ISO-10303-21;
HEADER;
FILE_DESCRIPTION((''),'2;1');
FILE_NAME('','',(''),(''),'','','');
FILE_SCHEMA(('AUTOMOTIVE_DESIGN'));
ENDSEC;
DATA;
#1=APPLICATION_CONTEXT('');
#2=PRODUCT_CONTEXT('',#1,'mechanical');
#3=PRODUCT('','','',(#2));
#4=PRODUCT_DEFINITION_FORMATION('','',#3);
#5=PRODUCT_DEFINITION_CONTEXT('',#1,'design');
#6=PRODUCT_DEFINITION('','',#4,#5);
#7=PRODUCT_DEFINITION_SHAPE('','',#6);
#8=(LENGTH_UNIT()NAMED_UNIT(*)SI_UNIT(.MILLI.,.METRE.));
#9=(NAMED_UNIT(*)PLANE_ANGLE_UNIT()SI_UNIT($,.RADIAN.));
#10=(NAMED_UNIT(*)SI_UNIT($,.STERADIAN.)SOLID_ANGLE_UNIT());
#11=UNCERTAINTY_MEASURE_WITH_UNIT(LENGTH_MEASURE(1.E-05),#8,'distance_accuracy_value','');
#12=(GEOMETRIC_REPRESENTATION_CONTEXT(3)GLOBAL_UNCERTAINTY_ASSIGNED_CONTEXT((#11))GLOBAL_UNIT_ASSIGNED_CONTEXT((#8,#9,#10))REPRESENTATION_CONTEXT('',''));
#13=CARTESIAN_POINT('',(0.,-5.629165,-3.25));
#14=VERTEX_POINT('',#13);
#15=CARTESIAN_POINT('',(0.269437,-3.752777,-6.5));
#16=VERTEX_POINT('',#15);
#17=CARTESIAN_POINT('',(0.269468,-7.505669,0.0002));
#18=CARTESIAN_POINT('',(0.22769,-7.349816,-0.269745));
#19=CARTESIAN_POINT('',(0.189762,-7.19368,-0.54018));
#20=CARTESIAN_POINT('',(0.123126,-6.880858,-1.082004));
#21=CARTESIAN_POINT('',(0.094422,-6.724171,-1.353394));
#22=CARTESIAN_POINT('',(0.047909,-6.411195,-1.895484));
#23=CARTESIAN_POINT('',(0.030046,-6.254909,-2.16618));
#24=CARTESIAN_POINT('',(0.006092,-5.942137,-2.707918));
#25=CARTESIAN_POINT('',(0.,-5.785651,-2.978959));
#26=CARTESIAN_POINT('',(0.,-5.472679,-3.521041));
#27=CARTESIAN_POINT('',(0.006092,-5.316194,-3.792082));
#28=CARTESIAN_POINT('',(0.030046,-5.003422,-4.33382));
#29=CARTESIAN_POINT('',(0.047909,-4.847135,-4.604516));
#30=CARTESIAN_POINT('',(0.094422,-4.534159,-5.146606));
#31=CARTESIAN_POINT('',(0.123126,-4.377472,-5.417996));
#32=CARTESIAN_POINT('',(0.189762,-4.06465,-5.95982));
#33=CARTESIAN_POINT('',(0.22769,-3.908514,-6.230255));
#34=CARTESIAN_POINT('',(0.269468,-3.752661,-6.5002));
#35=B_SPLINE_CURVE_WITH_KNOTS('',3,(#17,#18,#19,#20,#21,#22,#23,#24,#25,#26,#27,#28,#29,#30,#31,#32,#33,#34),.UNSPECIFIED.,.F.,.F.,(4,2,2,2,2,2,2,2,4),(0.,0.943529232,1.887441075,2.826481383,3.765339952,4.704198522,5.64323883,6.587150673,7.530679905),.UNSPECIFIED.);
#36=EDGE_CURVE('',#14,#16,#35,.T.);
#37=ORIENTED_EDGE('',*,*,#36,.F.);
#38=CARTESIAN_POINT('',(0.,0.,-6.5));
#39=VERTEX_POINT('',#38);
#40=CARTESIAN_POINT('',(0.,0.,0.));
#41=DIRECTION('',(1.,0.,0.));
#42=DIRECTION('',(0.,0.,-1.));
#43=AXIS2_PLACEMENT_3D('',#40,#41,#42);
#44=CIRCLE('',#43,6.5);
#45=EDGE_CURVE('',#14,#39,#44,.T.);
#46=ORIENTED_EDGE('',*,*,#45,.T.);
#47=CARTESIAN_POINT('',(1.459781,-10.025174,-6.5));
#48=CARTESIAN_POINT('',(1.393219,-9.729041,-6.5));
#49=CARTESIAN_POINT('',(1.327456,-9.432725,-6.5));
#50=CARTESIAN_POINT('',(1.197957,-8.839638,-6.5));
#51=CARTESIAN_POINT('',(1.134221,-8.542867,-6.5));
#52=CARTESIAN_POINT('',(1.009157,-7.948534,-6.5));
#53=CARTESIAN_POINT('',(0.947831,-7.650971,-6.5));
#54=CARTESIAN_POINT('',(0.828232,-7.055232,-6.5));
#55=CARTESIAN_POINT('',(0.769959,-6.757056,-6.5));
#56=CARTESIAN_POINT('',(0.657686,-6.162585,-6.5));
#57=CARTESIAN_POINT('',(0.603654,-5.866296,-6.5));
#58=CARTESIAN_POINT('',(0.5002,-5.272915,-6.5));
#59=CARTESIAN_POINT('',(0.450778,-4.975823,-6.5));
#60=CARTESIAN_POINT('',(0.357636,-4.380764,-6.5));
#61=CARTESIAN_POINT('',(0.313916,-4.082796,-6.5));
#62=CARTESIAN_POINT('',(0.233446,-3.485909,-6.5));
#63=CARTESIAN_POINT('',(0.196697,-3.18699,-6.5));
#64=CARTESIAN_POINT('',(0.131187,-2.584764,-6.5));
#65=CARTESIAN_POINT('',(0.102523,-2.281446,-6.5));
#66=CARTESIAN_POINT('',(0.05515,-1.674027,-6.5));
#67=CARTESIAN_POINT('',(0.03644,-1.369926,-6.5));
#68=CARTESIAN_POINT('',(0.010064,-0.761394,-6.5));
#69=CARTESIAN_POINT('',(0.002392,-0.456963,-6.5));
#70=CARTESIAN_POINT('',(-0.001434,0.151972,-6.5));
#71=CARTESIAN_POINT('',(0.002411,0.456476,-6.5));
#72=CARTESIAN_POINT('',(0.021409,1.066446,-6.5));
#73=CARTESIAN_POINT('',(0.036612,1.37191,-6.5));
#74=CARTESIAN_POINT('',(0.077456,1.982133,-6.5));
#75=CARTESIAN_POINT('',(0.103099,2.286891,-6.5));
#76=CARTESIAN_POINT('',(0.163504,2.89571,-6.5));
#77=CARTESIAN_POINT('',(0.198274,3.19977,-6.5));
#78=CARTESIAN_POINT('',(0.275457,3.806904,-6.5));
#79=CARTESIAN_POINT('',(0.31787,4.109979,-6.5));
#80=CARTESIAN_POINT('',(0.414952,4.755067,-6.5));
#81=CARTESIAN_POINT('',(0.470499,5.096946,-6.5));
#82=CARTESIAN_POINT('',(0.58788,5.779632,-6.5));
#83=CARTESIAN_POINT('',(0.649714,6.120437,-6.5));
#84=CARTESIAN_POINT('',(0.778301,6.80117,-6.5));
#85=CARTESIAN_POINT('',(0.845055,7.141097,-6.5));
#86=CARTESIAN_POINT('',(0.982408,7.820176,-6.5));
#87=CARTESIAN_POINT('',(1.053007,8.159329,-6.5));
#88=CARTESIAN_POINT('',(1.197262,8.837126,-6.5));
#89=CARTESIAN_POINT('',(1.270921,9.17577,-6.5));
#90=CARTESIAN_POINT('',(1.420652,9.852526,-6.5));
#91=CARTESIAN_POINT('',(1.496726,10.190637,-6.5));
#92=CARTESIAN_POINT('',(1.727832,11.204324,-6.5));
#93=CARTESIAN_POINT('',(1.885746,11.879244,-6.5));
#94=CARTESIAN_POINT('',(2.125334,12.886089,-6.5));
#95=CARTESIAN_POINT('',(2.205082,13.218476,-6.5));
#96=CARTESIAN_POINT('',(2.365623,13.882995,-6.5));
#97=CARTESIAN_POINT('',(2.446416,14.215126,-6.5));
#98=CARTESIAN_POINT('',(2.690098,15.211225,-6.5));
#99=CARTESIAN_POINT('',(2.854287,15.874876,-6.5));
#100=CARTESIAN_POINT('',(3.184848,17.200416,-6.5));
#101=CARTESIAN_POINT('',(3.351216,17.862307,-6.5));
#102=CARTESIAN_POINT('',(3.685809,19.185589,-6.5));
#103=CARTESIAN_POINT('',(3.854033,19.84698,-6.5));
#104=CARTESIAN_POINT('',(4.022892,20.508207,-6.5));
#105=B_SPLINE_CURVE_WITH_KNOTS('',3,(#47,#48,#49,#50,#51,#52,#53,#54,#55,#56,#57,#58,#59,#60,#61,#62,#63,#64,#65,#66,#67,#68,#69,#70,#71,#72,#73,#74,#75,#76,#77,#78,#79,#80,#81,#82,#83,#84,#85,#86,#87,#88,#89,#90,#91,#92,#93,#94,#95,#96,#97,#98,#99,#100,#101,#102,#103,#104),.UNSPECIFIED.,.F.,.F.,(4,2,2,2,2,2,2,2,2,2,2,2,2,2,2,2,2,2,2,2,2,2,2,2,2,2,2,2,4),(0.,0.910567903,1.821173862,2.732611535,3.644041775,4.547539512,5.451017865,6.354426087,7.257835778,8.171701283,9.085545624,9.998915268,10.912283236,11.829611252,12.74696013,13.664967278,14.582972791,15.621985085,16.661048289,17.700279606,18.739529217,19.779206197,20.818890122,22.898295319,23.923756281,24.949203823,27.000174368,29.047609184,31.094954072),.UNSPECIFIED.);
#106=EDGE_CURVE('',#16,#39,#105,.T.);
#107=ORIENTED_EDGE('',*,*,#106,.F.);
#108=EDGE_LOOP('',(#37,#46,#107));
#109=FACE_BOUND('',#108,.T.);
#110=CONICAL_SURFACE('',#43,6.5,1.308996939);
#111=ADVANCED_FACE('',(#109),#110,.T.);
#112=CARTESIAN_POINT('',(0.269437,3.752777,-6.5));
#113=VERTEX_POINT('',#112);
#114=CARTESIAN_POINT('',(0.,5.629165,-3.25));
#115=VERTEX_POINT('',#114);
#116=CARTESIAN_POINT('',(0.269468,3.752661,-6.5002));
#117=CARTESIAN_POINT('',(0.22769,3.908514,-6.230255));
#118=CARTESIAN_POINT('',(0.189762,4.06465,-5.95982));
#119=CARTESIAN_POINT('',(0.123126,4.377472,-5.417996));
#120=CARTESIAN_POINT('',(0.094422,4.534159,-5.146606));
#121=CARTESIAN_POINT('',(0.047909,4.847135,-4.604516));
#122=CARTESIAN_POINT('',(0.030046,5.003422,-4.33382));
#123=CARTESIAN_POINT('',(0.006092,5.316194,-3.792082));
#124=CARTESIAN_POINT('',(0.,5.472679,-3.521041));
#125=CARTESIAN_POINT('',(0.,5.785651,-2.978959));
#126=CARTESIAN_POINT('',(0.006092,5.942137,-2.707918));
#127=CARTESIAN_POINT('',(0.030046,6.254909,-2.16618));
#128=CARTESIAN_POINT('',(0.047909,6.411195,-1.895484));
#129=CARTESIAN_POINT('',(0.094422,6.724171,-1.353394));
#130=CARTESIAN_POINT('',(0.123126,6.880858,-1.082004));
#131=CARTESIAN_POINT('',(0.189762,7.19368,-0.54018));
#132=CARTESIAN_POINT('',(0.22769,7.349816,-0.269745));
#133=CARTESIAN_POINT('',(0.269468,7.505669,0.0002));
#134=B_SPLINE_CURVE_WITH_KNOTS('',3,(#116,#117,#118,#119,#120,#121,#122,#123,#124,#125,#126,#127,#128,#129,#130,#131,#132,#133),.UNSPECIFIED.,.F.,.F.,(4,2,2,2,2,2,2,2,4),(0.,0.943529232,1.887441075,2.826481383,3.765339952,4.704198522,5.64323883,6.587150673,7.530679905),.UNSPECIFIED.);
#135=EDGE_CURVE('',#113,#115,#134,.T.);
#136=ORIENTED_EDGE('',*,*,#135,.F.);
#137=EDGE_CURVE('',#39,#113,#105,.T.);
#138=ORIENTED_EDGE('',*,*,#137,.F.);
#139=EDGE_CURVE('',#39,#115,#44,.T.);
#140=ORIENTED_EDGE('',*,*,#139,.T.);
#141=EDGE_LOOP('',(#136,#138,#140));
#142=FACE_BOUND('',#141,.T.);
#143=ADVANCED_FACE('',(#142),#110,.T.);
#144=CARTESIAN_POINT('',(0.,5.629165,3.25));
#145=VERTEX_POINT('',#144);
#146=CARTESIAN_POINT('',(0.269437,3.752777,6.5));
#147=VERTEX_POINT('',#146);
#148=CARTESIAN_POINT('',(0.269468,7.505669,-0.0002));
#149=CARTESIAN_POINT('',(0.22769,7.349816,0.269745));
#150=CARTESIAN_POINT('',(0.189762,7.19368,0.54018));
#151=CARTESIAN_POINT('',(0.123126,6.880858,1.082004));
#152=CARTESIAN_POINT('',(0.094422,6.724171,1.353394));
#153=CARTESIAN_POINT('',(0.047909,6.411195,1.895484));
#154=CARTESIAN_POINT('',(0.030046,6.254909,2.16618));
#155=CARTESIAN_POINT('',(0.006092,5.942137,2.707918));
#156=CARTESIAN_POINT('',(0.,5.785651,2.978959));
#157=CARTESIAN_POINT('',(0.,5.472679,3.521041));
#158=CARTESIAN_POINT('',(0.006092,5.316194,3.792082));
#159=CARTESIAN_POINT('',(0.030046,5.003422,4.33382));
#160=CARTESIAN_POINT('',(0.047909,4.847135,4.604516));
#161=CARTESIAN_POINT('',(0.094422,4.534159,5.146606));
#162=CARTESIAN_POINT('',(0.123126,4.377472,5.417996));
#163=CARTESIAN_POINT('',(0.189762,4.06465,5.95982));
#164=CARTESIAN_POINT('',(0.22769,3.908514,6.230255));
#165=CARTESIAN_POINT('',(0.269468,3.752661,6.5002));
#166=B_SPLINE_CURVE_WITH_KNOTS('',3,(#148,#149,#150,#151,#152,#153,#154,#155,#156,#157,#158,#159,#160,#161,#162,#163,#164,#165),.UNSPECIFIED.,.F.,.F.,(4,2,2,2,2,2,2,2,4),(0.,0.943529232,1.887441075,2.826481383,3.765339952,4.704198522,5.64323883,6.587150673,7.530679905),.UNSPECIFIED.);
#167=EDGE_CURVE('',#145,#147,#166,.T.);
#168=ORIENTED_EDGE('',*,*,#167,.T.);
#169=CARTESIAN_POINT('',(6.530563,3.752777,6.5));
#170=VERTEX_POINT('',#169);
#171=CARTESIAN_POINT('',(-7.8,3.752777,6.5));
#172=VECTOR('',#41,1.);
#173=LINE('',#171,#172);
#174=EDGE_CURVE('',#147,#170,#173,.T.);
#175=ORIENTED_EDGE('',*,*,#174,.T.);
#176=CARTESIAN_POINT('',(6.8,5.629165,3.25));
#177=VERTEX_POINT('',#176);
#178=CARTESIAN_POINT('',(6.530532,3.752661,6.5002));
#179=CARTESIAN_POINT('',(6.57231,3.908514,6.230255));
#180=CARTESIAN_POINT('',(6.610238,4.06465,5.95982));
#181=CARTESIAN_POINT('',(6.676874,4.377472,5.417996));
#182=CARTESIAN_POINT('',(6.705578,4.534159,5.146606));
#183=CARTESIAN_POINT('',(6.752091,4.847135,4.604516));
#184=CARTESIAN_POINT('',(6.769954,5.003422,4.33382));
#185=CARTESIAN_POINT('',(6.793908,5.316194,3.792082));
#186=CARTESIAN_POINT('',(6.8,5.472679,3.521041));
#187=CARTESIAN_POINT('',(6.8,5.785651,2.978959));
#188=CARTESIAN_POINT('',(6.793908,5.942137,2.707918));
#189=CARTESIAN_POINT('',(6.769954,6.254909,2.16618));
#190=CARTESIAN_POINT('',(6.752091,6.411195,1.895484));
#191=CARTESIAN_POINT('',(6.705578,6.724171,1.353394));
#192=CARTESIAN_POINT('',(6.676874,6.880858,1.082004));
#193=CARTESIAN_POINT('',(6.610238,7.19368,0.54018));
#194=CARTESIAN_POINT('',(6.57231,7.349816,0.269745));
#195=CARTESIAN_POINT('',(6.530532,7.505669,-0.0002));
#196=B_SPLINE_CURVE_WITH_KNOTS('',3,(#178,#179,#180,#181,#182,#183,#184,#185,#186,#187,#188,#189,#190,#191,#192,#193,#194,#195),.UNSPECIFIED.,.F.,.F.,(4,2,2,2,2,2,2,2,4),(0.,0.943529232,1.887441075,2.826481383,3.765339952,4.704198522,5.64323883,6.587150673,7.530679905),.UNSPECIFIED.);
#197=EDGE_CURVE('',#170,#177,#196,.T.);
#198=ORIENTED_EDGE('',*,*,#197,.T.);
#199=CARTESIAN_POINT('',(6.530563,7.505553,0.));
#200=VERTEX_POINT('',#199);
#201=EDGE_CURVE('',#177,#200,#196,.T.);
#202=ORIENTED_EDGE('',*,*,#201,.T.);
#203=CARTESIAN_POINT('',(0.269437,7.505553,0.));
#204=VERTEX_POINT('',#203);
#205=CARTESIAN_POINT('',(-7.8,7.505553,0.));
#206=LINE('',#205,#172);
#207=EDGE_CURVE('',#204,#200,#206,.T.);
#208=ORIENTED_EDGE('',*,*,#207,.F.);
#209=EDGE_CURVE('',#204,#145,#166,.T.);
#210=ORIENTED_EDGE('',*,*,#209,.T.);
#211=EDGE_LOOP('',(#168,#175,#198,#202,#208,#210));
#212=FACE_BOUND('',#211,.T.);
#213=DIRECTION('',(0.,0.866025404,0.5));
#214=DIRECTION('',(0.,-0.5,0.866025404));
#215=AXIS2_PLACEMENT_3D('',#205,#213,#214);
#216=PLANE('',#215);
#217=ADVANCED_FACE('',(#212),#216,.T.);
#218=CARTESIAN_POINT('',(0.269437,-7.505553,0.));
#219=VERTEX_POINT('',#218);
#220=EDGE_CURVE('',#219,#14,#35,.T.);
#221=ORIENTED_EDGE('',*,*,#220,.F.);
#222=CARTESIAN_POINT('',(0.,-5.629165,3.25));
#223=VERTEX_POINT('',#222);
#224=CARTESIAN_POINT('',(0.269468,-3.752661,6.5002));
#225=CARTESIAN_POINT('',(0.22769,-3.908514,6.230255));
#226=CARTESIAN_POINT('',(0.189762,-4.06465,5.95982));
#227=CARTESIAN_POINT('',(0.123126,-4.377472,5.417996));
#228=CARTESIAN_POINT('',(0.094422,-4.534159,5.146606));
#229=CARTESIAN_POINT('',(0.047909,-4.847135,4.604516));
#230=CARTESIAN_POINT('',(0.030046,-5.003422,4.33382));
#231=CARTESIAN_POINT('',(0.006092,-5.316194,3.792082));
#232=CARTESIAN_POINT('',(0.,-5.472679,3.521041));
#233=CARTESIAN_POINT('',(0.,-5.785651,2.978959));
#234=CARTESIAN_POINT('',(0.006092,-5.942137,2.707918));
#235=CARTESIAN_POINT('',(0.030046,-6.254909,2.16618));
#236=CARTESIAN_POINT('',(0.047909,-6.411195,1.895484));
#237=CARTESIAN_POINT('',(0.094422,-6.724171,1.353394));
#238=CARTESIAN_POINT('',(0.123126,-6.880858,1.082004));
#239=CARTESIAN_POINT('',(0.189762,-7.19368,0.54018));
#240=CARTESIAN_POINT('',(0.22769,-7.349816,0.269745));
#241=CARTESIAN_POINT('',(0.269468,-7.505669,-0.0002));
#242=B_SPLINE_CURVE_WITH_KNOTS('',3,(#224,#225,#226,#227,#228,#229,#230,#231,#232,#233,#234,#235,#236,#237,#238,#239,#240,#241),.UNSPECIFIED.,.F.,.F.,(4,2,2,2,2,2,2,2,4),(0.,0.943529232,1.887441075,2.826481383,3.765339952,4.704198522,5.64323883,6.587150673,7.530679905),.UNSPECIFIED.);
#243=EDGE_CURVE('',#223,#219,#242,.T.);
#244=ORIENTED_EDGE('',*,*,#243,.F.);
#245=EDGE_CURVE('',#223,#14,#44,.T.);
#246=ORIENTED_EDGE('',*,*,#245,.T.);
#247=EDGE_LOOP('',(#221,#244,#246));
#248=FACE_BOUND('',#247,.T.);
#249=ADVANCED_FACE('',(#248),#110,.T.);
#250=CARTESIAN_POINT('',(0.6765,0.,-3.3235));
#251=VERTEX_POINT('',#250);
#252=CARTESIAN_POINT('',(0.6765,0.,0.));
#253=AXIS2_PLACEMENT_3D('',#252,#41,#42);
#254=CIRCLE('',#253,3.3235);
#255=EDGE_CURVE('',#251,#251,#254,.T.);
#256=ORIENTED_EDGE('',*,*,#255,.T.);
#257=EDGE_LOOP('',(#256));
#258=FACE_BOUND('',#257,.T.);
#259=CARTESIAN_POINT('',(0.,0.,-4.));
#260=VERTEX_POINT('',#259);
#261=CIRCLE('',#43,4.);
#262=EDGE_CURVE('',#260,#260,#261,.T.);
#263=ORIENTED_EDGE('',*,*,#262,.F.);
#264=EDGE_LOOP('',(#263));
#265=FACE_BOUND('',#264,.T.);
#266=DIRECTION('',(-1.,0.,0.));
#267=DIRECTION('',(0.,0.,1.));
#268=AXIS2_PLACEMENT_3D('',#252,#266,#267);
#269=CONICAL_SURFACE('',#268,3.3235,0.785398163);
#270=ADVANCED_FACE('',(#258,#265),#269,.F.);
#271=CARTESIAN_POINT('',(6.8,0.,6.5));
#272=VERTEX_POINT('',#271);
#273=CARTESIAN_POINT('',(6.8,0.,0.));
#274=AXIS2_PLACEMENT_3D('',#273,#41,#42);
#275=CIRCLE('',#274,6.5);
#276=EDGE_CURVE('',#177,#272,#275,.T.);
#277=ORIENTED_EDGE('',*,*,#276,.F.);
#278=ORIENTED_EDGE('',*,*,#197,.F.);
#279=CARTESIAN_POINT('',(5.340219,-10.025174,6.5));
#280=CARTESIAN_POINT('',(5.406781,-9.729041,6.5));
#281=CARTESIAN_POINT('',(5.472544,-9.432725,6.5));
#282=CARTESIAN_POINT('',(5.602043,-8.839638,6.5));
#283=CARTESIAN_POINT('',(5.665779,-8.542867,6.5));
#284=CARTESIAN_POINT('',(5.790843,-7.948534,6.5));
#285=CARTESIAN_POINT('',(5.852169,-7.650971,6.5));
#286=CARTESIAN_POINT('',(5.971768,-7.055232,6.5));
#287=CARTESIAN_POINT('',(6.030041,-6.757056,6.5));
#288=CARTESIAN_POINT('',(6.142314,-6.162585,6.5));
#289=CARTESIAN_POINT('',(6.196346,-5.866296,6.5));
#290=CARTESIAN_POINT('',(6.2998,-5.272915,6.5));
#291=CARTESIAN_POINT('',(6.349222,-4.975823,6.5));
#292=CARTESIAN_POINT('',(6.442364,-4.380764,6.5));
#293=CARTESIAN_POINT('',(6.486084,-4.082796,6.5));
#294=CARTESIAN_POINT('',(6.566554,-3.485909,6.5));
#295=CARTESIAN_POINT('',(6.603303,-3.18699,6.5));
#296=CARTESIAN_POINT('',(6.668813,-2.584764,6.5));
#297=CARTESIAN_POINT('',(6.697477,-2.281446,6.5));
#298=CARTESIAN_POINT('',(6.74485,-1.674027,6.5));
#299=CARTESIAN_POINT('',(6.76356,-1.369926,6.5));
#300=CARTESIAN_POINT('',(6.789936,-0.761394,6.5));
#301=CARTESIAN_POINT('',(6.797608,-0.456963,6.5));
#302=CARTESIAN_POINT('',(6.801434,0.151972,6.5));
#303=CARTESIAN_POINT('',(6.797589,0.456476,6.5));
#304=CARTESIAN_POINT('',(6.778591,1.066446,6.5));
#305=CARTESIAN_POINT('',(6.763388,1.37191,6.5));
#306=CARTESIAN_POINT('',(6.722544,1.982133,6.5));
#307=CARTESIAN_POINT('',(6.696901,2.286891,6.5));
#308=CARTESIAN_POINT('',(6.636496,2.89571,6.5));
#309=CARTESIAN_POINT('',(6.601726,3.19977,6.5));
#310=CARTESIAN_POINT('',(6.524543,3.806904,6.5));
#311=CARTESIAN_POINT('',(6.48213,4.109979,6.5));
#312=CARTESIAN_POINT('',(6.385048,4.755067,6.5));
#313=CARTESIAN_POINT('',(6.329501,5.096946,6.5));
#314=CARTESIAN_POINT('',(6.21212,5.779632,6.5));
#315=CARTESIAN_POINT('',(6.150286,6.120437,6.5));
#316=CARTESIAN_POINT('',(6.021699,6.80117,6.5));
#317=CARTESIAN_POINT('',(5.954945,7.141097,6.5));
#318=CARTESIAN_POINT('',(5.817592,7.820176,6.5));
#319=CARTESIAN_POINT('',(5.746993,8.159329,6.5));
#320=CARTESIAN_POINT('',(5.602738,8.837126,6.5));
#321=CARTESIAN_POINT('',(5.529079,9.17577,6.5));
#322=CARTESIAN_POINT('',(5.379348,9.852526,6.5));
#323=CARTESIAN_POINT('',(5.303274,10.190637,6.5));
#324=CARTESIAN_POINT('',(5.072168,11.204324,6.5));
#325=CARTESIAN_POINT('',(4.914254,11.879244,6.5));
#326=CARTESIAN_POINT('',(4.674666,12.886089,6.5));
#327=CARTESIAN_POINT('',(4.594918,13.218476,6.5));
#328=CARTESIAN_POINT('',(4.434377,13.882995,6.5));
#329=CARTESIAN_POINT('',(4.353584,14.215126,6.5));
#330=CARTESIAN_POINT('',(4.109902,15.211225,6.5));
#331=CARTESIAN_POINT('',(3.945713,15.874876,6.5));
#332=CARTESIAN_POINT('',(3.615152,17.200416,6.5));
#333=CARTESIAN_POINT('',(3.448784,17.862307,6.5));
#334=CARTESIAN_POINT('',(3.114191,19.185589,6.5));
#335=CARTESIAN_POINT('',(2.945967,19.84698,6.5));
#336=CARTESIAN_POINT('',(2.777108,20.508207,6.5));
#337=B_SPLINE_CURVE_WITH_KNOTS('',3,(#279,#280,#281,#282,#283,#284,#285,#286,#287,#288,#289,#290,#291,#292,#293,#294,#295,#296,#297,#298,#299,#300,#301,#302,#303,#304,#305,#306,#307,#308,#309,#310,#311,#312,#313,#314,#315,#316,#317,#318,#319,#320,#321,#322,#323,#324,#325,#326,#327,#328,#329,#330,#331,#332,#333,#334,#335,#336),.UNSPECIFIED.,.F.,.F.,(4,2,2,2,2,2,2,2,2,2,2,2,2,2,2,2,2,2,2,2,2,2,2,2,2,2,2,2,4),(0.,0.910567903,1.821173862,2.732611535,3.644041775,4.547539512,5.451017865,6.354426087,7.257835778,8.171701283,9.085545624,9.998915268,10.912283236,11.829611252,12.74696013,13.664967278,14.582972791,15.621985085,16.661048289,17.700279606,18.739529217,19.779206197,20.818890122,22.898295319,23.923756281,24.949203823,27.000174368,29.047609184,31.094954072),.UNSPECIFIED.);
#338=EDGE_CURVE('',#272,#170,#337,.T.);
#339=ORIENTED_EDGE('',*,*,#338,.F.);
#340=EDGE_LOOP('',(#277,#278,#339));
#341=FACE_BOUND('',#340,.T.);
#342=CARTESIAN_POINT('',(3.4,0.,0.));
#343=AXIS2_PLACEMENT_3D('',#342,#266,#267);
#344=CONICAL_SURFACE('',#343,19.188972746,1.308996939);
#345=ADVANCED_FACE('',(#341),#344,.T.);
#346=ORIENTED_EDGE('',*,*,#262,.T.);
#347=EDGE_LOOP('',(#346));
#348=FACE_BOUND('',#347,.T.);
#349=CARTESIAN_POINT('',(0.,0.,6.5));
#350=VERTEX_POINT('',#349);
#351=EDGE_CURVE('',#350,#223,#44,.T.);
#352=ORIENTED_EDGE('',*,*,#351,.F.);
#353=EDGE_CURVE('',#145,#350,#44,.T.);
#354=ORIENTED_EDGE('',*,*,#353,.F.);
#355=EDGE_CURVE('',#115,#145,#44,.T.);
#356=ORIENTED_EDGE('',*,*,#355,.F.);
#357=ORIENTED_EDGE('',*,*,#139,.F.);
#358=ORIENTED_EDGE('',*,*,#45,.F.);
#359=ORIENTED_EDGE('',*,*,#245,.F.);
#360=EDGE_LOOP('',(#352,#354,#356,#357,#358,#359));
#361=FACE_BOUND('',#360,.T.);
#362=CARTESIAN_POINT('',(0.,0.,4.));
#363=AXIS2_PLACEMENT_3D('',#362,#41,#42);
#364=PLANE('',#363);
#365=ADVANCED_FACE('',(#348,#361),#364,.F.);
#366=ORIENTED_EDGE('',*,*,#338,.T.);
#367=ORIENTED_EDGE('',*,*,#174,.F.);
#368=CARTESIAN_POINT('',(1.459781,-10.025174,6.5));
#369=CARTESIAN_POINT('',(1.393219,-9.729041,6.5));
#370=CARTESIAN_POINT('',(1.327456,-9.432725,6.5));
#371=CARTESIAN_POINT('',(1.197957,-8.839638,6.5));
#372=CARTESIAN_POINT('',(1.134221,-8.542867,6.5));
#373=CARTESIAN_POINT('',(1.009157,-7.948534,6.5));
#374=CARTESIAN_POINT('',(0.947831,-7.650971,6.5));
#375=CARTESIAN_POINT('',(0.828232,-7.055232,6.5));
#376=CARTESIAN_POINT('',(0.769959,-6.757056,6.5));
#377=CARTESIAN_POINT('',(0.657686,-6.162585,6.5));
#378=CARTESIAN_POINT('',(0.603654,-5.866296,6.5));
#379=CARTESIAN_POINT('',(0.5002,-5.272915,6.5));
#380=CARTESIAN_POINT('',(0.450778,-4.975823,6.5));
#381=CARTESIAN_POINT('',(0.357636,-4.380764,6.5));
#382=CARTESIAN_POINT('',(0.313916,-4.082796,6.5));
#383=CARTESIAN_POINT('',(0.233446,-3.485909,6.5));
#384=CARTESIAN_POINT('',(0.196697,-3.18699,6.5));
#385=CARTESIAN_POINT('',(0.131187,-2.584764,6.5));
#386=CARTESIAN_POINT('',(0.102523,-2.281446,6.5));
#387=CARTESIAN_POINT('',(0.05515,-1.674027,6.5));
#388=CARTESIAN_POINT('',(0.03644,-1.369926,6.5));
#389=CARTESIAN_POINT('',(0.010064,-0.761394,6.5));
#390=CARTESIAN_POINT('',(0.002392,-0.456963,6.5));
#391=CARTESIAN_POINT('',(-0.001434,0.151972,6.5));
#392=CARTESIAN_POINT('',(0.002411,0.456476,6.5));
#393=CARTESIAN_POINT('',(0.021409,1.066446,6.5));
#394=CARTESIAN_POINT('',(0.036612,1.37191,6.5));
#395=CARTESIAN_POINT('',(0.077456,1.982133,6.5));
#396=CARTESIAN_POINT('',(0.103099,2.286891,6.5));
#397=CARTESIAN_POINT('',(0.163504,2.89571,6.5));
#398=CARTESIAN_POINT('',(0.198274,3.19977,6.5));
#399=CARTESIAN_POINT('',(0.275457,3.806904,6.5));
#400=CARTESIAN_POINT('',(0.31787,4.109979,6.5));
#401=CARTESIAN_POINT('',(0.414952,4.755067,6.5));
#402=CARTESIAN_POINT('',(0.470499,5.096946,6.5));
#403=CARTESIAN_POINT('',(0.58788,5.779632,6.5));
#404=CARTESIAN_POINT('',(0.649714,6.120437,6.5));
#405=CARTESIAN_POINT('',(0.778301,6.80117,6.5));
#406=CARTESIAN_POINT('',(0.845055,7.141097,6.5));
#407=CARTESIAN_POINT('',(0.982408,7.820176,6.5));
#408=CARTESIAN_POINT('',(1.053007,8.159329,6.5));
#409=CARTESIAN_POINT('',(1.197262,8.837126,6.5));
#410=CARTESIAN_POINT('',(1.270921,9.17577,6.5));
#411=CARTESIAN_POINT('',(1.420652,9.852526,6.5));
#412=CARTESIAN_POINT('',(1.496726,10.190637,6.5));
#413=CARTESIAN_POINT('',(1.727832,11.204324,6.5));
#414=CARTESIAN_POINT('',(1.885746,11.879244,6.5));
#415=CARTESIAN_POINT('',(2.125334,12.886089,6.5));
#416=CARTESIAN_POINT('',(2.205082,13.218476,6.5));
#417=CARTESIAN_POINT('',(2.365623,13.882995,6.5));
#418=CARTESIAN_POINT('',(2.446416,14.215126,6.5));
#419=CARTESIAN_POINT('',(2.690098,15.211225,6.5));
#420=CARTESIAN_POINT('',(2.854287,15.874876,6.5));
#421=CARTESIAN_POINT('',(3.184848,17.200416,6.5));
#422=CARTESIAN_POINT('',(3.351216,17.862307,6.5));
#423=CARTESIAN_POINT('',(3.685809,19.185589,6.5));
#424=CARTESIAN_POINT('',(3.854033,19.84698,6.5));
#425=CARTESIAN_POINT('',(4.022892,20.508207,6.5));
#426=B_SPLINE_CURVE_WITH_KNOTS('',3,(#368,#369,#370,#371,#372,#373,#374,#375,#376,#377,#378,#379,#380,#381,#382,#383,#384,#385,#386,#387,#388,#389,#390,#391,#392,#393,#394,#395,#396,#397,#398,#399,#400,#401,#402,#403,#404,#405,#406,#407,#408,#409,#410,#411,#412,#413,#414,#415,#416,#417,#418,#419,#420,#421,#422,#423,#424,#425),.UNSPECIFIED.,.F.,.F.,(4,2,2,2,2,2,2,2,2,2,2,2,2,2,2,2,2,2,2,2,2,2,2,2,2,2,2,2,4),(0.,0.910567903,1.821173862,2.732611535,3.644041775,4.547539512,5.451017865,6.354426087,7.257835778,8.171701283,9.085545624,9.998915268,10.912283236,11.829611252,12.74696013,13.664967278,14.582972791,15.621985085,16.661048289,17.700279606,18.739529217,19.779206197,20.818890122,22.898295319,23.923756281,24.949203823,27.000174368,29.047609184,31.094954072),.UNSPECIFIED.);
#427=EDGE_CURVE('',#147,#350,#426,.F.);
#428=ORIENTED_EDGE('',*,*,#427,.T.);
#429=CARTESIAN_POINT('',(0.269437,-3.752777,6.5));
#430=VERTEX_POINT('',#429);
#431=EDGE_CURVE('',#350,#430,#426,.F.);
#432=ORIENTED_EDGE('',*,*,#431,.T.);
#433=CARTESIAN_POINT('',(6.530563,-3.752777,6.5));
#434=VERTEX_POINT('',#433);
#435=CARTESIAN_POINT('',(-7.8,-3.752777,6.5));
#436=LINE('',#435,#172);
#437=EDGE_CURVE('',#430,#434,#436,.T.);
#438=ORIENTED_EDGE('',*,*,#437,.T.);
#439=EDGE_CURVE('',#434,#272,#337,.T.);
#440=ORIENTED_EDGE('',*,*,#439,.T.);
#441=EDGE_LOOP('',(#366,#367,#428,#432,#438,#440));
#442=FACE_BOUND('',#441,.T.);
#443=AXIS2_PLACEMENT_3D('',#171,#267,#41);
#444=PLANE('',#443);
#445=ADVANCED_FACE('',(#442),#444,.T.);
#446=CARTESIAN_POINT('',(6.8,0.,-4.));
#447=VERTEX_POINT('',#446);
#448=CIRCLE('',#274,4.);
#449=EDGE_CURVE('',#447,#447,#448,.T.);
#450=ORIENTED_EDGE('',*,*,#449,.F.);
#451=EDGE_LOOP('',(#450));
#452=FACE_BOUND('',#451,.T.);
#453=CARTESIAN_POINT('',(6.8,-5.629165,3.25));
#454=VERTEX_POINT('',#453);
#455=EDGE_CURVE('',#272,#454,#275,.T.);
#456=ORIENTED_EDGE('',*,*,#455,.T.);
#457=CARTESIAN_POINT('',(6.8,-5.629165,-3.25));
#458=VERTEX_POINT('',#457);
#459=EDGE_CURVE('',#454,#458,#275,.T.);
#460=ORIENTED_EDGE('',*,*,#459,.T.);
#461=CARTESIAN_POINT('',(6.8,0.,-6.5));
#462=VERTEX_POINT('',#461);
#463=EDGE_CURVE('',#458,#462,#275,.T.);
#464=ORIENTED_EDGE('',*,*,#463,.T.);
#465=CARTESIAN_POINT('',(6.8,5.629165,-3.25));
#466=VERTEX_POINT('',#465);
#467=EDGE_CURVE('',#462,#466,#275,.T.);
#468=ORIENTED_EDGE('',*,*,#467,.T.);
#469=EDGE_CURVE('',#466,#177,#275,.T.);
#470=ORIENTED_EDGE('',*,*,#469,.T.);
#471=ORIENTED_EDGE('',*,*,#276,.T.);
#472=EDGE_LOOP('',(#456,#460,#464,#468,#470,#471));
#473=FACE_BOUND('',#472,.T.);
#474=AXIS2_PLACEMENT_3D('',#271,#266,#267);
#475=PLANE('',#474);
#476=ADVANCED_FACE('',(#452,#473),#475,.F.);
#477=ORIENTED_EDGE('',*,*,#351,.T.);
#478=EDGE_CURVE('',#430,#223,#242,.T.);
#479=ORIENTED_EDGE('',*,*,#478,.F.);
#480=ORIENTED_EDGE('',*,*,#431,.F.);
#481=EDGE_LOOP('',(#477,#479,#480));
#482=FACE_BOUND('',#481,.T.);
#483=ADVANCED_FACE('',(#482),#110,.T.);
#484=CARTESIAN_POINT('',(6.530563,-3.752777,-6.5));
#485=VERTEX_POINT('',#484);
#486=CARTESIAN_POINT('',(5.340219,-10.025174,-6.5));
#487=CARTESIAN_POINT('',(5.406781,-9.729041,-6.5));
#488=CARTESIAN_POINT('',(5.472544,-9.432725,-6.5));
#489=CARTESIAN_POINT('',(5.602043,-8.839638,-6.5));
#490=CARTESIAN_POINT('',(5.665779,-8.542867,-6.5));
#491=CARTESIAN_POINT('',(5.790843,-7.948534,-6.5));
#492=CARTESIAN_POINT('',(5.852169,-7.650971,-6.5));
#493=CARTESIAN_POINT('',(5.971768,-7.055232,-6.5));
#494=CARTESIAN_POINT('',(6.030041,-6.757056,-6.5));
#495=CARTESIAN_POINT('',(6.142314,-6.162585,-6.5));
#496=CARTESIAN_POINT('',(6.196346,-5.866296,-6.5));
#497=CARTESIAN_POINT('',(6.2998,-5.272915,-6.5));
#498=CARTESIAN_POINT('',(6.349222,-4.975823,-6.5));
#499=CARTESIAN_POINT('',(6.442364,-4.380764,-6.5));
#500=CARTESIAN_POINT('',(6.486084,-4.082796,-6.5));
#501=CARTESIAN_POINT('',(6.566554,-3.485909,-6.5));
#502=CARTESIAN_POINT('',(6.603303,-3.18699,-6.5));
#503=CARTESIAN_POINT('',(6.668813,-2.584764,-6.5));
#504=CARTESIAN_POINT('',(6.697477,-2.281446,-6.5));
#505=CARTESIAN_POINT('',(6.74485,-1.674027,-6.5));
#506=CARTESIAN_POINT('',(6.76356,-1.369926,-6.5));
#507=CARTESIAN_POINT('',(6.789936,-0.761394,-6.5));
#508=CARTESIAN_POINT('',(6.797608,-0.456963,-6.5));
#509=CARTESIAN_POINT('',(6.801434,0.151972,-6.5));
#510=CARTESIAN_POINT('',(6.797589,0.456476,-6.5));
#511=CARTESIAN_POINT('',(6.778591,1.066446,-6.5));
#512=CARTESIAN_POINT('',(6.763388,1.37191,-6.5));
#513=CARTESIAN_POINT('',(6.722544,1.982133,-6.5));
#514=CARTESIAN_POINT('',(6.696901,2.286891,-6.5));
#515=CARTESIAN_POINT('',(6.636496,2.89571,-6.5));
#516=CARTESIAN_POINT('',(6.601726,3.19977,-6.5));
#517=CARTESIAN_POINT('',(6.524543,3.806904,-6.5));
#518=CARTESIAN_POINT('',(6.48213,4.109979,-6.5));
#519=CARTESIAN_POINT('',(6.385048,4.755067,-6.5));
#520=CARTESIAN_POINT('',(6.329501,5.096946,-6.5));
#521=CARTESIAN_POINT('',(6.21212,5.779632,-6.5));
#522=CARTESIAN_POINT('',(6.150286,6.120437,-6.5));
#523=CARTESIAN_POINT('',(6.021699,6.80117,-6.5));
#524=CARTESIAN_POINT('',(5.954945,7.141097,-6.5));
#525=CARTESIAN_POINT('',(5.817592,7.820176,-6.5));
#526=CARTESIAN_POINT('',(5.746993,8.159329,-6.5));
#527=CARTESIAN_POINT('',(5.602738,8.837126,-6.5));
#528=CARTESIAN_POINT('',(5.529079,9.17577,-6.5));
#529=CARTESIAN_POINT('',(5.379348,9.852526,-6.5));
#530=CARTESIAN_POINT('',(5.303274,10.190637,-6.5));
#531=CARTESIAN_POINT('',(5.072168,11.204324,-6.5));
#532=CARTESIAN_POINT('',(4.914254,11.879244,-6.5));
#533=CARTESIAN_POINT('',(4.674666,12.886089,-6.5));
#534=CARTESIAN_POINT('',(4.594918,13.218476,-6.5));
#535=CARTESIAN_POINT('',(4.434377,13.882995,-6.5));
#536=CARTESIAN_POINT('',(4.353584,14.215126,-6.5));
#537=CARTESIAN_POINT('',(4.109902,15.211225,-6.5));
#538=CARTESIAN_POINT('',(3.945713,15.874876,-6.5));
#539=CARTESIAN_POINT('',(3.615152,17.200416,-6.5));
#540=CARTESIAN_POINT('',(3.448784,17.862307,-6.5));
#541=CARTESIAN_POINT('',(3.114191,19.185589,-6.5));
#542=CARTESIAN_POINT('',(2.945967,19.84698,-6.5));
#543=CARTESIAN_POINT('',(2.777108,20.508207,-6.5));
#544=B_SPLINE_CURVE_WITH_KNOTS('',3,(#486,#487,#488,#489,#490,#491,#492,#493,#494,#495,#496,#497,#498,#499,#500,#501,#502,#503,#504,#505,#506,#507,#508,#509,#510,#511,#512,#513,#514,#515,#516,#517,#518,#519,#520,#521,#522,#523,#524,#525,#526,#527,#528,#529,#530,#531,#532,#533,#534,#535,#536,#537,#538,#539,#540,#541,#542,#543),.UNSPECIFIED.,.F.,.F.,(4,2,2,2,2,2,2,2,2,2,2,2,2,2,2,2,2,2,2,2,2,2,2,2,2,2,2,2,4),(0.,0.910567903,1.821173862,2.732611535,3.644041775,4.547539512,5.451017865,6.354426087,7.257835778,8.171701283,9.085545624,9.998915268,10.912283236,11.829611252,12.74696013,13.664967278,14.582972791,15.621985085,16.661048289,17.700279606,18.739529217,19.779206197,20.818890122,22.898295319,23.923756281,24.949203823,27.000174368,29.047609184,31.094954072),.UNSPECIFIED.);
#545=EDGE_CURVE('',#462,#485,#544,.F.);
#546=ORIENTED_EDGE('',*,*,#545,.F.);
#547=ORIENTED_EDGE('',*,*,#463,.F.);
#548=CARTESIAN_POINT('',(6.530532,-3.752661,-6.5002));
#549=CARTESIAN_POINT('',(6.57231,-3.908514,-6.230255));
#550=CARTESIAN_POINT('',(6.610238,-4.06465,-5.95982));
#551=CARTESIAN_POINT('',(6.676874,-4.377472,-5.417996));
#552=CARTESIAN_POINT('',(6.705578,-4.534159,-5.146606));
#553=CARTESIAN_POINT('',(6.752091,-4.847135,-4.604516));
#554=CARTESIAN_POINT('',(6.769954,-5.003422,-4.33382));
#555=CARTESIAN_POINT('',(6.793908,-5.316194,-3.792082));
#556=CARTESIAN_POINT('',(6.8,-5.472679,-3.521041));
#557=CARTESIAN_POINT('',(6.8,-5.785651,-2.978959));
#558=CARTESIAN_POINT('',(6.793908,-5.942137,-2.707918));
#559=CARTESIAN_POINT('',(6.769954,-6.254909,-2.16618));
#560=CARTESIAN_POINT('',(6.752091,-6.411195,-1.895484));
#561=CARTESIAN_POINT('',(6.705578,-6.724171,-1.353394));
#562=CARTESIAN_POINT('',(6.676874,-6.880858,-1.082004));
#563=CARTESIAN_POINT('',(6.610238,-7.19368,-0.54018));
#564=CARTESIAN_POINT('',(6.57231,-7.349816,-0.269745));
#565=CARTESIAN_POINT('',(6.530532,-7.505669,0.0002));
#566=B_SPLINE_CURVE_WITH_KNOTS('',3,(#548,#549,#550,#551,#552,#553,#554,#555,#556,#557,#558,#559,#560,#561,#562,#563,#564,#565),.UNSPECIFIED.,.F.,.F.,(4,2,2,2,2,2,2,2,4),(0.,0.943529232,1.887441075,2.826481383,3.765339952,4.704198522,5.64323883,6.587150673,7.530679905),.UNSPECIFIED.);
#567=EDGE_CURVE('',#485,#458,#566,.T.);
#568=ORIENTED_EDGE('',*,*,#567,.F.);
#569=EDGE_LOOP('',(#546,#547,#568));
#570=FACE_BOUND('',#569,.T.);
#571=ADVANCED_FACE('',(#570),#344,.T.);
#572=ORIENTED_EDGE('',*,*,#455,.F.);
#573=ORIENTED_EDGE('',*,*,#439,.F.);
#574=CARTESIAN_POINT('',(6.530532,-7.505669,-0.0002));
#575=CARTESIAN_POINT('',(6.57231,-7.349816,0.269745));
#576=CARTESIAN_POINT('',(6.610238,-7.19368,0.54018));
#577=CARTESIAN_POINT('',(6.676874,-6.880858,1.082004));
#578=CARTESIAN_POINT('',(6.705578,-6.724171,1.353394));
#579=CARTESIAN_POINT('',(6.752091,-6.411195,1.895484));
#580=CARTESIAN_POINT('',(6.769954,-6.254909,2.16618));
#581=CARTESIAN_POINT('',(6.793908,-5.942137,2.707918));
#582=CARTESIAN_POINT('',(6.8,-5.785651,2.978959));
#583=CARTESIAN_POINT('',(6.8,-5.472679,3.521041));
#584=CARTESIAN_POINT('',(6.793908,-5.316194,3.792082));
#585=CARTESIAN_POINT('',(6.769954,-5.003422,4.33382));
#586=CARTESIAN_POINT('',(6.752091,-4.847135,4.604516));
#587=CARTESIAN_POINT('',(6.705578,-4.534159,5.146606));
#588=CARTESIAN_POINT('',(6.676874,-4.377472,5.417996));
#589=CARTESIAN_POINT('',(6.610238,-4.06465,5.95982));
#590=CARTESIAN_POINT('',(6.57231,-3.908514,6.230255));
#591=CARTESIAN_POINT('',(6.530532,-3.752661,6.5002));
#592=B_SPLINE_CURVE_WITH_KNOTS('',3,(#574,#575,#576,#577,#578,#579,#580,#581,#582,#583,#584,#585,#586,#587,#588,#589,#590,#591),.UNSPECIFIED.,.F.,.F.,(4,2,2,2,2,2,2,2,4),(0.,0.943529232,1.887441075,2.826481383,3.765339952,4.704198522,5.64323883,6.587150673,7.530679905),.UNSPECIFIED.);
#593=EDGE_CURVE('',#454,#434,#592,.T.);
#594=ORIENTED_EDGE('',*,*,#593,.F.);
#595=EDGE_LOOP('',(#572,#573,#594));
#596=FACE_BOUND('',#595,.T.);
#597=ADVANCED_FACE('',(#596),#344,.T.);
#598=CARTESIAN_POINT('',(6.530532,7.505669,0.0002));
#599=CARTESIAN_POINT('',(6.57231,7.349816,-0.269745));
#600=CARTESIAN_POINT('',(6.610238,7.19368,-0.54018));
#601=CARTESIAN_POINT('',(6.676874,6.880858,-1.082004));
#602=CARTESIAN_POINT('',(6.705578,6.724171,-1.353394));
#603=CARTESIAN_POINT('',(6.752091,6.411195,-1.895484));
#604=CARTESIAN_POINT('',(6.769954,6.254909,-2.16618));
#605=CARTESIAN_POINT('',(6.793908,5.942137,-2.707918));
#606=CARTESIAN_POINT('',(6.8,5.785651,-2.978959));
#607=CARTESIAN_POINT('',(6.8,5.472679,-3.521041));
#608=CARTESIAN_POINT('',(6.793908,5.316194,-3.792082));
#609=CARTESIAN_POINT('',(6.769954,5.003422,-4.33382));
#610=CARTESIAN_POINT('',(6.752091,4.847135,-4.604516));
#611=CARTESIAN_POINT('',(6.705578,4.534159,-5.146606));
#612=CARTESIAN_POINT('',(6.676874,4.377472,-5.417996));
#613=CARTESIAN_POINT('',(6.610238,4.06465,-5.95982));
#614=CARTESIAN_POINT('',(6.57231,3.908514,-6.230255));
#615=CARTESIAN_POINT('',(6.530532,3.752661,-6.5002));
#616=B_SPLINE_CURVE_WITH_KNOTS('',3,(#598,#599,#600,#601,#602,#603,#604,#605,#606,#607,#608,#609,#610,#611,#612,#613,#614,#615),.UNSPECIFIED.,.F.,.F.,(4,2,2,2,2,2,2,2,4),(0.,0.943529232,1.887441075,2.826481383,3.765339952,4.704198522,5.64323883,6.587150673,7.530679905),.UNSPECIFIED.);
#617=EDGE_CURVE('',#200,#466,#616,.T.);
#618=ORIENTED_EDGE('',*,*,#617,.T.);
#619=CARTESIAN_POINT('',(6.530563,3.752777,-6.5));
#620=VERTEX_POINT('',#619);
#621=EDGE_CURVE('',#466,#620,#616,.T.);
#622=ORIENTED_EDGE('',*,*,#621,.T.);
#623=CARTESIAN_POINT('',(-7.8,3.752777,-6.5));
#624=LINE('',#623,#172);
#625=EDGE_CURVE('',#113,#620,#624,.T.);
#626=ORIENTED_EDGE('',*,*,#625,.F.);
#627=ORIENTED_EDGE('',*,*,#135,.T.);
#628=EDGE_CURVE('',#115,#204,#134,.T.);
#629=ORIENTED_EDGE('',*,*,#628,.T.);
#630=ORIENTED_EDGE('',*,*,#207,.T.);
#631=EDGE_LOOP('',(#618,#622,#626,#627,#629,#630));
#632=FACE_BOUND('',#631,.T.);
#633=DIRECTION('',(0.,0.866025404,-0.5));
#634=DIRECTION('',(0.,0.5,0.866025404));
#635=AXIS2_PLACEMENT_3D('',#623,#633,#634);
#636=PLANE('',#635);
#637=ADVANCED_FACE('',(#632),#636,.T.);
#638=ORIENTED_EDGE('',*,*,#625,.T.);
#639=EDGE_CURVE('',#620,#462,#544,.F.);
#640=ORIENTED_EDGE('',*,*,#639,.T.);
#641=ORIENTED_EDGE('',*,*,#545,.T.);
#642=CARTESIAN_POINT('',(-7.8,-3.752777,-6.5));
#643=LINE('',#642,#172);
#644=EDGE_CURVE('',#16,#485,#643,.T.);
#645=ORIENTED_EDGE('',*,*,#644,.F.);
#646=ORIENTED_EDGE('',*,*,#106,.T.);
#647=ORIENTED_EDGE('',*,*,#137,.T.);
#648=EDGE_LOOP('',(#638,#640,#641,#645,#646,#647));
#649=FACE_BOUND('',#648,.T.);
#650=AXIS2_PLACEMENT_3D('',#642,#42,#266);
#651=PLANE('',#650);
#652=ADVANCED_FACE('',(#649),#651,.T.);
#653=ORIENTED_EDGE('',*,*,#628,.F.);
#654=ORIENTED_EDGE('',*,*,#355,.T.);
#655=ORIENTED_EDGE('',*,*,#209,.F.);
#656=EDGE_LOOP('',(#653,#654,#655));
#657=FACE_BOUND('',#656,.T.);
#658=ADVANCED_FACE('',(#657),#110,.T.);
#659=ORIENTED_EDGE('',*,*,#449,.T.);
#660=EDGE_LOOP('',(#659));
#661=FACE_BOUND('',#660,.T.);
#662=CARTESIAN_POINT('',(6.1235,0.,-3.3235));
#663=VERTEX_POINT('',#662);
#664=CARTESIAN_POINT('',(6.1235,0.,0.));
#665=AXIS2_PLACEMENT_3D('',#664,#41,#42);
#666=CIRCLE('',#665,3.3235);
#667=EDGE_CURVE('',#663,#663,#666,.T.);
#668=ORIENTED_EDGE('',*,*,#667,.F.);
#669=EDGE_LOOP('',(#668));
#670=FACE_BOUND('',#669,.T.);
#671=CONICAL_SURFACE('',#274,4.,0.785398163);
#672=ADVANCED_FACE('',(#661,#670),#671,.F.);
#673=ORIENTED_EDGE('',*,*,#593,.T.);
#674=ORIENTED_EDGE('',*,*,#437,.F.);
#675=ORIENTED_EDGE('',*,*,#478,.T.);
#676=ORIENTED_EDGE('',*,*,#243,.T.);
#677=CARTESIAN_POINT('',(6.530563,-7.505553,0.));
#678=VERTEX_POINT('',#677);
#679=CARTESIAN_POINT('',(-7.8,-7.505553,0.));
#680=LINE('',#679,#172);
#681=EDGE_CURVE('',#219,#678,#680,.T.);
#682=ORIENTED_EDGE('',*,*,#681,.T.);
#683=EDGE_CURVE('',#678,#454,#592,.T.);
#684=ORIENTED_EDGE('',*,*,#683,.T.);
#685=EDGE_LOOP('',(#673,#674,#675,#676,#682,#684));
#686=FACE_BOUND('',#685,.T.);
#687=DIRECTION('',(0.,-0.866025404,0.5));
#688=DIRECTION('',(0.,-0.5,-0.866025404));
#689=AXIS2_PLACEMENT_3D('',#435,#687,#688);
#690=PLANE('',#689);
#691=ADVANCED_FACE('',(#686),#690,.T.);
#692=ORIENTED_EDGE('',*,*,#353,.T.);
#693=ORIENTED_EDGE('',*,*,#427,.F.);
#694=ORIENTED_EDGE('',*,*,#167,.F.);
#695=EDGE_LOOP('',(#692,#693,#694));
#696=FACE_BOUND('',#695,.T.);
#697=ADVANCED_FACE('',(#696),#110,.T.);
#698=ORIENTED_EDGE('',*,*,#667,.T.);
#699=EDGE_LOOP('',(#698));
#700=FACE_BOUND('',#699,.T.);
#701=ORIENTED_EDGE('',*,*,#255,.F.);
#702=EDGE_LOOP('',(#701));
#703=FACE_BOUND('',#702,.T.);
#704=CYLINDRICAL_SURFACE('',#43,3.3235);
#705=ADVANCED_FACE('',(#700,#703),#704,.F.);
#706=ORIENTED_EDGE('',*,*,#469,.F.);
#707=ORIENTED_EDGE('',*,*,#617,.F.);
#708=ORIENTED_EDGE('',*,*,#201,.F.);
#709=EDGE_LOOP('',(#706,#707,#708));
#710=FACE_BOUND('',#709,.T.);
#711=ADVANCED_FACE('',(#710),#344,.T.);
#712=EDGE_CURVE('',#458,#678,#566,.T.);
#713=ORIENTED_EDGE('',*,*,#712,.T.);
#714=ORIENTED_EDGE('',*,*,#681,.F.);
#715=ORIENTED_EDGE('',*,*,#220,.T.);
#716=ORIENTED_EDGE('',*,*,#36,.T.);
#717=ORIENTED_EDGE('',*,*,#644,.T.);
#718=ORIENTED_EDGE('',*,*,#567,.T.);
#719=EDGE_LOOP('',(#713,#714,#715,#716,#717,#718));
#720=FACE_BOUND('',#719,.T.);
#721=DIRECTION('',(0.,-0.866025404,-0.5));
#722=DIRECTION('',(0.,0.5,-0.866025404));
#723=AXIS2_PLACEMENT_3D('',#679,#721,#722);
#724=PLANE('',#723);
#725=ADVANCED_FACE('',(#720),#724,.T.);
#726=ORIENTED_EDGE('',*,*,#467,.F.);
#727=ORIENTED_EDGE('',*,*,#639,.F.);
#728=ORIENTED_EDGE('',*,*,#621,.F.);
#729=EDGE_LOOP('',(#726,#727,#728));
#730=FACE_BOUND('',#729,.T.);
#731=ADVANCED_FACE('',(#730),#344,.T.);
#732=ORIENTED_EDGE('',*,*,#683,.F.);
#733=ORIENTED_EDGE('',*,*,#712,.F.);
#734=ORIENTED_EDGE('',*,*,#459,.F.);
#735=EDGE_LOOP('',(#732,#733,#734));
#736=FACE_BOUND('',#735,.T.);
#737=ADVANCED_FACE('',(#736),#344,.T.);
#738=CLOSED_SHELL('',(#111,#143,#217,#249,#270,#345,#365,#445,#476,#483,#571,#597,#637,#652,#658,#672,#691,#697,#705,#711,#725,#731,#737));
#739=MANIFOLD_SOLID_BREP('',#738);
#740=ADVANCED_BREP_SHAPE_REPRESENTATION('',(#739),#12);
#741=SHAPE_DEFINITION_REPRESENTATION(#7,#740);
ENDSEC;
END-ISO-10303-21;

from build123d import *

# Parameters (mm, degrees)
ENL_V_MAT_EXTRU_1_DEPTH      = 7.8
ENL_V_MAT_EXTRU_1_DEPTH_BACK = 7.8
ESQUISSE2_W                  = 52
ESQUISSE2_H                  = 52
ESQUISSE3_R                  = 4.875
BOSS_EXTRU_1_DEPTH           = 3.4


with BuildPart() as part:
    # Esquisse1 → Révolution1 (revolve)
    with BuildSketch(Plane(origin=(0, 0, 0), x_dir=(1, 0, 0), z_dir=(0, 1, 0)), mode=Mode.PRIVATE) as r_volution1_sk:
        Polygon((0, -6.5), (3.4, -19.188972746), (6.8, -6.5), (6.8, -4), (6.1235, -3.3235), (0.6765, -3.3235), (0, -4), align=None)
    revolve(r_volution1_sk.sketch.rotate(Axis((0, 0, 0), (1, 0, 0)), 180), axis=Axis((0, 0, 0), (1, 0, 0)))

    # Esquisse2 → Enlèv. mat.-Extru.1 (cut, two sides: drawn at the far end of the back side and taken through both)
    with BuildSketch(Plane(origin=(0, 0, 0), x_dir=(0, 0, -1), z_dir=(1, 0, 0)).offset(-ENL_V_MAT_EXTRU_1_DEPTH_BACK)):
        Rectangle(ESQUISSE2_W, ESQUISSE2_H)
        Polygon((-6.5, -3.75277675), (0, -7.505553499), (6.5, -3.75277675), (6.5, 3.75277675), (0, 7.505553499), (-6.5, 3.75277675), align=None, mode=Mode.SUBTRACT)
    extrude(amount=ENL_V_MAT_EXTRU_1_DEPTH + ENL_V_MAT_EXTRU_1_DEPTH_BACK, mode=Mode.SUBTRACT)


with BuildPart() as body_2:
    # Esquisse3 → Boss.-Extru.1 (new body)
    with BuildSketch(Plane(origin=(0, 0, 0), x_dir=(0, 0, -1), z_dir=(1, 0, 0))):
        with Locations(Location((0, 0, 0), (0, 0, 180))):
            Circle(ESQUISSE3_R)
    extrude(amount=BOSS_EXTRU_1_DEPTH)

    # SupprimerFace1: 1 face struck out; the rest of the skin is kept as a surface, the solid goes
    supprimerface1_1_drop = [body_2.part.faces().sort_by_distance(Vector(p))[0] for p in ((3.4, 0, 0),)]
    supprimerface1_1 = Shell(body_2.part.faces() - supprimerface1_1_drop)


solid = part.part
